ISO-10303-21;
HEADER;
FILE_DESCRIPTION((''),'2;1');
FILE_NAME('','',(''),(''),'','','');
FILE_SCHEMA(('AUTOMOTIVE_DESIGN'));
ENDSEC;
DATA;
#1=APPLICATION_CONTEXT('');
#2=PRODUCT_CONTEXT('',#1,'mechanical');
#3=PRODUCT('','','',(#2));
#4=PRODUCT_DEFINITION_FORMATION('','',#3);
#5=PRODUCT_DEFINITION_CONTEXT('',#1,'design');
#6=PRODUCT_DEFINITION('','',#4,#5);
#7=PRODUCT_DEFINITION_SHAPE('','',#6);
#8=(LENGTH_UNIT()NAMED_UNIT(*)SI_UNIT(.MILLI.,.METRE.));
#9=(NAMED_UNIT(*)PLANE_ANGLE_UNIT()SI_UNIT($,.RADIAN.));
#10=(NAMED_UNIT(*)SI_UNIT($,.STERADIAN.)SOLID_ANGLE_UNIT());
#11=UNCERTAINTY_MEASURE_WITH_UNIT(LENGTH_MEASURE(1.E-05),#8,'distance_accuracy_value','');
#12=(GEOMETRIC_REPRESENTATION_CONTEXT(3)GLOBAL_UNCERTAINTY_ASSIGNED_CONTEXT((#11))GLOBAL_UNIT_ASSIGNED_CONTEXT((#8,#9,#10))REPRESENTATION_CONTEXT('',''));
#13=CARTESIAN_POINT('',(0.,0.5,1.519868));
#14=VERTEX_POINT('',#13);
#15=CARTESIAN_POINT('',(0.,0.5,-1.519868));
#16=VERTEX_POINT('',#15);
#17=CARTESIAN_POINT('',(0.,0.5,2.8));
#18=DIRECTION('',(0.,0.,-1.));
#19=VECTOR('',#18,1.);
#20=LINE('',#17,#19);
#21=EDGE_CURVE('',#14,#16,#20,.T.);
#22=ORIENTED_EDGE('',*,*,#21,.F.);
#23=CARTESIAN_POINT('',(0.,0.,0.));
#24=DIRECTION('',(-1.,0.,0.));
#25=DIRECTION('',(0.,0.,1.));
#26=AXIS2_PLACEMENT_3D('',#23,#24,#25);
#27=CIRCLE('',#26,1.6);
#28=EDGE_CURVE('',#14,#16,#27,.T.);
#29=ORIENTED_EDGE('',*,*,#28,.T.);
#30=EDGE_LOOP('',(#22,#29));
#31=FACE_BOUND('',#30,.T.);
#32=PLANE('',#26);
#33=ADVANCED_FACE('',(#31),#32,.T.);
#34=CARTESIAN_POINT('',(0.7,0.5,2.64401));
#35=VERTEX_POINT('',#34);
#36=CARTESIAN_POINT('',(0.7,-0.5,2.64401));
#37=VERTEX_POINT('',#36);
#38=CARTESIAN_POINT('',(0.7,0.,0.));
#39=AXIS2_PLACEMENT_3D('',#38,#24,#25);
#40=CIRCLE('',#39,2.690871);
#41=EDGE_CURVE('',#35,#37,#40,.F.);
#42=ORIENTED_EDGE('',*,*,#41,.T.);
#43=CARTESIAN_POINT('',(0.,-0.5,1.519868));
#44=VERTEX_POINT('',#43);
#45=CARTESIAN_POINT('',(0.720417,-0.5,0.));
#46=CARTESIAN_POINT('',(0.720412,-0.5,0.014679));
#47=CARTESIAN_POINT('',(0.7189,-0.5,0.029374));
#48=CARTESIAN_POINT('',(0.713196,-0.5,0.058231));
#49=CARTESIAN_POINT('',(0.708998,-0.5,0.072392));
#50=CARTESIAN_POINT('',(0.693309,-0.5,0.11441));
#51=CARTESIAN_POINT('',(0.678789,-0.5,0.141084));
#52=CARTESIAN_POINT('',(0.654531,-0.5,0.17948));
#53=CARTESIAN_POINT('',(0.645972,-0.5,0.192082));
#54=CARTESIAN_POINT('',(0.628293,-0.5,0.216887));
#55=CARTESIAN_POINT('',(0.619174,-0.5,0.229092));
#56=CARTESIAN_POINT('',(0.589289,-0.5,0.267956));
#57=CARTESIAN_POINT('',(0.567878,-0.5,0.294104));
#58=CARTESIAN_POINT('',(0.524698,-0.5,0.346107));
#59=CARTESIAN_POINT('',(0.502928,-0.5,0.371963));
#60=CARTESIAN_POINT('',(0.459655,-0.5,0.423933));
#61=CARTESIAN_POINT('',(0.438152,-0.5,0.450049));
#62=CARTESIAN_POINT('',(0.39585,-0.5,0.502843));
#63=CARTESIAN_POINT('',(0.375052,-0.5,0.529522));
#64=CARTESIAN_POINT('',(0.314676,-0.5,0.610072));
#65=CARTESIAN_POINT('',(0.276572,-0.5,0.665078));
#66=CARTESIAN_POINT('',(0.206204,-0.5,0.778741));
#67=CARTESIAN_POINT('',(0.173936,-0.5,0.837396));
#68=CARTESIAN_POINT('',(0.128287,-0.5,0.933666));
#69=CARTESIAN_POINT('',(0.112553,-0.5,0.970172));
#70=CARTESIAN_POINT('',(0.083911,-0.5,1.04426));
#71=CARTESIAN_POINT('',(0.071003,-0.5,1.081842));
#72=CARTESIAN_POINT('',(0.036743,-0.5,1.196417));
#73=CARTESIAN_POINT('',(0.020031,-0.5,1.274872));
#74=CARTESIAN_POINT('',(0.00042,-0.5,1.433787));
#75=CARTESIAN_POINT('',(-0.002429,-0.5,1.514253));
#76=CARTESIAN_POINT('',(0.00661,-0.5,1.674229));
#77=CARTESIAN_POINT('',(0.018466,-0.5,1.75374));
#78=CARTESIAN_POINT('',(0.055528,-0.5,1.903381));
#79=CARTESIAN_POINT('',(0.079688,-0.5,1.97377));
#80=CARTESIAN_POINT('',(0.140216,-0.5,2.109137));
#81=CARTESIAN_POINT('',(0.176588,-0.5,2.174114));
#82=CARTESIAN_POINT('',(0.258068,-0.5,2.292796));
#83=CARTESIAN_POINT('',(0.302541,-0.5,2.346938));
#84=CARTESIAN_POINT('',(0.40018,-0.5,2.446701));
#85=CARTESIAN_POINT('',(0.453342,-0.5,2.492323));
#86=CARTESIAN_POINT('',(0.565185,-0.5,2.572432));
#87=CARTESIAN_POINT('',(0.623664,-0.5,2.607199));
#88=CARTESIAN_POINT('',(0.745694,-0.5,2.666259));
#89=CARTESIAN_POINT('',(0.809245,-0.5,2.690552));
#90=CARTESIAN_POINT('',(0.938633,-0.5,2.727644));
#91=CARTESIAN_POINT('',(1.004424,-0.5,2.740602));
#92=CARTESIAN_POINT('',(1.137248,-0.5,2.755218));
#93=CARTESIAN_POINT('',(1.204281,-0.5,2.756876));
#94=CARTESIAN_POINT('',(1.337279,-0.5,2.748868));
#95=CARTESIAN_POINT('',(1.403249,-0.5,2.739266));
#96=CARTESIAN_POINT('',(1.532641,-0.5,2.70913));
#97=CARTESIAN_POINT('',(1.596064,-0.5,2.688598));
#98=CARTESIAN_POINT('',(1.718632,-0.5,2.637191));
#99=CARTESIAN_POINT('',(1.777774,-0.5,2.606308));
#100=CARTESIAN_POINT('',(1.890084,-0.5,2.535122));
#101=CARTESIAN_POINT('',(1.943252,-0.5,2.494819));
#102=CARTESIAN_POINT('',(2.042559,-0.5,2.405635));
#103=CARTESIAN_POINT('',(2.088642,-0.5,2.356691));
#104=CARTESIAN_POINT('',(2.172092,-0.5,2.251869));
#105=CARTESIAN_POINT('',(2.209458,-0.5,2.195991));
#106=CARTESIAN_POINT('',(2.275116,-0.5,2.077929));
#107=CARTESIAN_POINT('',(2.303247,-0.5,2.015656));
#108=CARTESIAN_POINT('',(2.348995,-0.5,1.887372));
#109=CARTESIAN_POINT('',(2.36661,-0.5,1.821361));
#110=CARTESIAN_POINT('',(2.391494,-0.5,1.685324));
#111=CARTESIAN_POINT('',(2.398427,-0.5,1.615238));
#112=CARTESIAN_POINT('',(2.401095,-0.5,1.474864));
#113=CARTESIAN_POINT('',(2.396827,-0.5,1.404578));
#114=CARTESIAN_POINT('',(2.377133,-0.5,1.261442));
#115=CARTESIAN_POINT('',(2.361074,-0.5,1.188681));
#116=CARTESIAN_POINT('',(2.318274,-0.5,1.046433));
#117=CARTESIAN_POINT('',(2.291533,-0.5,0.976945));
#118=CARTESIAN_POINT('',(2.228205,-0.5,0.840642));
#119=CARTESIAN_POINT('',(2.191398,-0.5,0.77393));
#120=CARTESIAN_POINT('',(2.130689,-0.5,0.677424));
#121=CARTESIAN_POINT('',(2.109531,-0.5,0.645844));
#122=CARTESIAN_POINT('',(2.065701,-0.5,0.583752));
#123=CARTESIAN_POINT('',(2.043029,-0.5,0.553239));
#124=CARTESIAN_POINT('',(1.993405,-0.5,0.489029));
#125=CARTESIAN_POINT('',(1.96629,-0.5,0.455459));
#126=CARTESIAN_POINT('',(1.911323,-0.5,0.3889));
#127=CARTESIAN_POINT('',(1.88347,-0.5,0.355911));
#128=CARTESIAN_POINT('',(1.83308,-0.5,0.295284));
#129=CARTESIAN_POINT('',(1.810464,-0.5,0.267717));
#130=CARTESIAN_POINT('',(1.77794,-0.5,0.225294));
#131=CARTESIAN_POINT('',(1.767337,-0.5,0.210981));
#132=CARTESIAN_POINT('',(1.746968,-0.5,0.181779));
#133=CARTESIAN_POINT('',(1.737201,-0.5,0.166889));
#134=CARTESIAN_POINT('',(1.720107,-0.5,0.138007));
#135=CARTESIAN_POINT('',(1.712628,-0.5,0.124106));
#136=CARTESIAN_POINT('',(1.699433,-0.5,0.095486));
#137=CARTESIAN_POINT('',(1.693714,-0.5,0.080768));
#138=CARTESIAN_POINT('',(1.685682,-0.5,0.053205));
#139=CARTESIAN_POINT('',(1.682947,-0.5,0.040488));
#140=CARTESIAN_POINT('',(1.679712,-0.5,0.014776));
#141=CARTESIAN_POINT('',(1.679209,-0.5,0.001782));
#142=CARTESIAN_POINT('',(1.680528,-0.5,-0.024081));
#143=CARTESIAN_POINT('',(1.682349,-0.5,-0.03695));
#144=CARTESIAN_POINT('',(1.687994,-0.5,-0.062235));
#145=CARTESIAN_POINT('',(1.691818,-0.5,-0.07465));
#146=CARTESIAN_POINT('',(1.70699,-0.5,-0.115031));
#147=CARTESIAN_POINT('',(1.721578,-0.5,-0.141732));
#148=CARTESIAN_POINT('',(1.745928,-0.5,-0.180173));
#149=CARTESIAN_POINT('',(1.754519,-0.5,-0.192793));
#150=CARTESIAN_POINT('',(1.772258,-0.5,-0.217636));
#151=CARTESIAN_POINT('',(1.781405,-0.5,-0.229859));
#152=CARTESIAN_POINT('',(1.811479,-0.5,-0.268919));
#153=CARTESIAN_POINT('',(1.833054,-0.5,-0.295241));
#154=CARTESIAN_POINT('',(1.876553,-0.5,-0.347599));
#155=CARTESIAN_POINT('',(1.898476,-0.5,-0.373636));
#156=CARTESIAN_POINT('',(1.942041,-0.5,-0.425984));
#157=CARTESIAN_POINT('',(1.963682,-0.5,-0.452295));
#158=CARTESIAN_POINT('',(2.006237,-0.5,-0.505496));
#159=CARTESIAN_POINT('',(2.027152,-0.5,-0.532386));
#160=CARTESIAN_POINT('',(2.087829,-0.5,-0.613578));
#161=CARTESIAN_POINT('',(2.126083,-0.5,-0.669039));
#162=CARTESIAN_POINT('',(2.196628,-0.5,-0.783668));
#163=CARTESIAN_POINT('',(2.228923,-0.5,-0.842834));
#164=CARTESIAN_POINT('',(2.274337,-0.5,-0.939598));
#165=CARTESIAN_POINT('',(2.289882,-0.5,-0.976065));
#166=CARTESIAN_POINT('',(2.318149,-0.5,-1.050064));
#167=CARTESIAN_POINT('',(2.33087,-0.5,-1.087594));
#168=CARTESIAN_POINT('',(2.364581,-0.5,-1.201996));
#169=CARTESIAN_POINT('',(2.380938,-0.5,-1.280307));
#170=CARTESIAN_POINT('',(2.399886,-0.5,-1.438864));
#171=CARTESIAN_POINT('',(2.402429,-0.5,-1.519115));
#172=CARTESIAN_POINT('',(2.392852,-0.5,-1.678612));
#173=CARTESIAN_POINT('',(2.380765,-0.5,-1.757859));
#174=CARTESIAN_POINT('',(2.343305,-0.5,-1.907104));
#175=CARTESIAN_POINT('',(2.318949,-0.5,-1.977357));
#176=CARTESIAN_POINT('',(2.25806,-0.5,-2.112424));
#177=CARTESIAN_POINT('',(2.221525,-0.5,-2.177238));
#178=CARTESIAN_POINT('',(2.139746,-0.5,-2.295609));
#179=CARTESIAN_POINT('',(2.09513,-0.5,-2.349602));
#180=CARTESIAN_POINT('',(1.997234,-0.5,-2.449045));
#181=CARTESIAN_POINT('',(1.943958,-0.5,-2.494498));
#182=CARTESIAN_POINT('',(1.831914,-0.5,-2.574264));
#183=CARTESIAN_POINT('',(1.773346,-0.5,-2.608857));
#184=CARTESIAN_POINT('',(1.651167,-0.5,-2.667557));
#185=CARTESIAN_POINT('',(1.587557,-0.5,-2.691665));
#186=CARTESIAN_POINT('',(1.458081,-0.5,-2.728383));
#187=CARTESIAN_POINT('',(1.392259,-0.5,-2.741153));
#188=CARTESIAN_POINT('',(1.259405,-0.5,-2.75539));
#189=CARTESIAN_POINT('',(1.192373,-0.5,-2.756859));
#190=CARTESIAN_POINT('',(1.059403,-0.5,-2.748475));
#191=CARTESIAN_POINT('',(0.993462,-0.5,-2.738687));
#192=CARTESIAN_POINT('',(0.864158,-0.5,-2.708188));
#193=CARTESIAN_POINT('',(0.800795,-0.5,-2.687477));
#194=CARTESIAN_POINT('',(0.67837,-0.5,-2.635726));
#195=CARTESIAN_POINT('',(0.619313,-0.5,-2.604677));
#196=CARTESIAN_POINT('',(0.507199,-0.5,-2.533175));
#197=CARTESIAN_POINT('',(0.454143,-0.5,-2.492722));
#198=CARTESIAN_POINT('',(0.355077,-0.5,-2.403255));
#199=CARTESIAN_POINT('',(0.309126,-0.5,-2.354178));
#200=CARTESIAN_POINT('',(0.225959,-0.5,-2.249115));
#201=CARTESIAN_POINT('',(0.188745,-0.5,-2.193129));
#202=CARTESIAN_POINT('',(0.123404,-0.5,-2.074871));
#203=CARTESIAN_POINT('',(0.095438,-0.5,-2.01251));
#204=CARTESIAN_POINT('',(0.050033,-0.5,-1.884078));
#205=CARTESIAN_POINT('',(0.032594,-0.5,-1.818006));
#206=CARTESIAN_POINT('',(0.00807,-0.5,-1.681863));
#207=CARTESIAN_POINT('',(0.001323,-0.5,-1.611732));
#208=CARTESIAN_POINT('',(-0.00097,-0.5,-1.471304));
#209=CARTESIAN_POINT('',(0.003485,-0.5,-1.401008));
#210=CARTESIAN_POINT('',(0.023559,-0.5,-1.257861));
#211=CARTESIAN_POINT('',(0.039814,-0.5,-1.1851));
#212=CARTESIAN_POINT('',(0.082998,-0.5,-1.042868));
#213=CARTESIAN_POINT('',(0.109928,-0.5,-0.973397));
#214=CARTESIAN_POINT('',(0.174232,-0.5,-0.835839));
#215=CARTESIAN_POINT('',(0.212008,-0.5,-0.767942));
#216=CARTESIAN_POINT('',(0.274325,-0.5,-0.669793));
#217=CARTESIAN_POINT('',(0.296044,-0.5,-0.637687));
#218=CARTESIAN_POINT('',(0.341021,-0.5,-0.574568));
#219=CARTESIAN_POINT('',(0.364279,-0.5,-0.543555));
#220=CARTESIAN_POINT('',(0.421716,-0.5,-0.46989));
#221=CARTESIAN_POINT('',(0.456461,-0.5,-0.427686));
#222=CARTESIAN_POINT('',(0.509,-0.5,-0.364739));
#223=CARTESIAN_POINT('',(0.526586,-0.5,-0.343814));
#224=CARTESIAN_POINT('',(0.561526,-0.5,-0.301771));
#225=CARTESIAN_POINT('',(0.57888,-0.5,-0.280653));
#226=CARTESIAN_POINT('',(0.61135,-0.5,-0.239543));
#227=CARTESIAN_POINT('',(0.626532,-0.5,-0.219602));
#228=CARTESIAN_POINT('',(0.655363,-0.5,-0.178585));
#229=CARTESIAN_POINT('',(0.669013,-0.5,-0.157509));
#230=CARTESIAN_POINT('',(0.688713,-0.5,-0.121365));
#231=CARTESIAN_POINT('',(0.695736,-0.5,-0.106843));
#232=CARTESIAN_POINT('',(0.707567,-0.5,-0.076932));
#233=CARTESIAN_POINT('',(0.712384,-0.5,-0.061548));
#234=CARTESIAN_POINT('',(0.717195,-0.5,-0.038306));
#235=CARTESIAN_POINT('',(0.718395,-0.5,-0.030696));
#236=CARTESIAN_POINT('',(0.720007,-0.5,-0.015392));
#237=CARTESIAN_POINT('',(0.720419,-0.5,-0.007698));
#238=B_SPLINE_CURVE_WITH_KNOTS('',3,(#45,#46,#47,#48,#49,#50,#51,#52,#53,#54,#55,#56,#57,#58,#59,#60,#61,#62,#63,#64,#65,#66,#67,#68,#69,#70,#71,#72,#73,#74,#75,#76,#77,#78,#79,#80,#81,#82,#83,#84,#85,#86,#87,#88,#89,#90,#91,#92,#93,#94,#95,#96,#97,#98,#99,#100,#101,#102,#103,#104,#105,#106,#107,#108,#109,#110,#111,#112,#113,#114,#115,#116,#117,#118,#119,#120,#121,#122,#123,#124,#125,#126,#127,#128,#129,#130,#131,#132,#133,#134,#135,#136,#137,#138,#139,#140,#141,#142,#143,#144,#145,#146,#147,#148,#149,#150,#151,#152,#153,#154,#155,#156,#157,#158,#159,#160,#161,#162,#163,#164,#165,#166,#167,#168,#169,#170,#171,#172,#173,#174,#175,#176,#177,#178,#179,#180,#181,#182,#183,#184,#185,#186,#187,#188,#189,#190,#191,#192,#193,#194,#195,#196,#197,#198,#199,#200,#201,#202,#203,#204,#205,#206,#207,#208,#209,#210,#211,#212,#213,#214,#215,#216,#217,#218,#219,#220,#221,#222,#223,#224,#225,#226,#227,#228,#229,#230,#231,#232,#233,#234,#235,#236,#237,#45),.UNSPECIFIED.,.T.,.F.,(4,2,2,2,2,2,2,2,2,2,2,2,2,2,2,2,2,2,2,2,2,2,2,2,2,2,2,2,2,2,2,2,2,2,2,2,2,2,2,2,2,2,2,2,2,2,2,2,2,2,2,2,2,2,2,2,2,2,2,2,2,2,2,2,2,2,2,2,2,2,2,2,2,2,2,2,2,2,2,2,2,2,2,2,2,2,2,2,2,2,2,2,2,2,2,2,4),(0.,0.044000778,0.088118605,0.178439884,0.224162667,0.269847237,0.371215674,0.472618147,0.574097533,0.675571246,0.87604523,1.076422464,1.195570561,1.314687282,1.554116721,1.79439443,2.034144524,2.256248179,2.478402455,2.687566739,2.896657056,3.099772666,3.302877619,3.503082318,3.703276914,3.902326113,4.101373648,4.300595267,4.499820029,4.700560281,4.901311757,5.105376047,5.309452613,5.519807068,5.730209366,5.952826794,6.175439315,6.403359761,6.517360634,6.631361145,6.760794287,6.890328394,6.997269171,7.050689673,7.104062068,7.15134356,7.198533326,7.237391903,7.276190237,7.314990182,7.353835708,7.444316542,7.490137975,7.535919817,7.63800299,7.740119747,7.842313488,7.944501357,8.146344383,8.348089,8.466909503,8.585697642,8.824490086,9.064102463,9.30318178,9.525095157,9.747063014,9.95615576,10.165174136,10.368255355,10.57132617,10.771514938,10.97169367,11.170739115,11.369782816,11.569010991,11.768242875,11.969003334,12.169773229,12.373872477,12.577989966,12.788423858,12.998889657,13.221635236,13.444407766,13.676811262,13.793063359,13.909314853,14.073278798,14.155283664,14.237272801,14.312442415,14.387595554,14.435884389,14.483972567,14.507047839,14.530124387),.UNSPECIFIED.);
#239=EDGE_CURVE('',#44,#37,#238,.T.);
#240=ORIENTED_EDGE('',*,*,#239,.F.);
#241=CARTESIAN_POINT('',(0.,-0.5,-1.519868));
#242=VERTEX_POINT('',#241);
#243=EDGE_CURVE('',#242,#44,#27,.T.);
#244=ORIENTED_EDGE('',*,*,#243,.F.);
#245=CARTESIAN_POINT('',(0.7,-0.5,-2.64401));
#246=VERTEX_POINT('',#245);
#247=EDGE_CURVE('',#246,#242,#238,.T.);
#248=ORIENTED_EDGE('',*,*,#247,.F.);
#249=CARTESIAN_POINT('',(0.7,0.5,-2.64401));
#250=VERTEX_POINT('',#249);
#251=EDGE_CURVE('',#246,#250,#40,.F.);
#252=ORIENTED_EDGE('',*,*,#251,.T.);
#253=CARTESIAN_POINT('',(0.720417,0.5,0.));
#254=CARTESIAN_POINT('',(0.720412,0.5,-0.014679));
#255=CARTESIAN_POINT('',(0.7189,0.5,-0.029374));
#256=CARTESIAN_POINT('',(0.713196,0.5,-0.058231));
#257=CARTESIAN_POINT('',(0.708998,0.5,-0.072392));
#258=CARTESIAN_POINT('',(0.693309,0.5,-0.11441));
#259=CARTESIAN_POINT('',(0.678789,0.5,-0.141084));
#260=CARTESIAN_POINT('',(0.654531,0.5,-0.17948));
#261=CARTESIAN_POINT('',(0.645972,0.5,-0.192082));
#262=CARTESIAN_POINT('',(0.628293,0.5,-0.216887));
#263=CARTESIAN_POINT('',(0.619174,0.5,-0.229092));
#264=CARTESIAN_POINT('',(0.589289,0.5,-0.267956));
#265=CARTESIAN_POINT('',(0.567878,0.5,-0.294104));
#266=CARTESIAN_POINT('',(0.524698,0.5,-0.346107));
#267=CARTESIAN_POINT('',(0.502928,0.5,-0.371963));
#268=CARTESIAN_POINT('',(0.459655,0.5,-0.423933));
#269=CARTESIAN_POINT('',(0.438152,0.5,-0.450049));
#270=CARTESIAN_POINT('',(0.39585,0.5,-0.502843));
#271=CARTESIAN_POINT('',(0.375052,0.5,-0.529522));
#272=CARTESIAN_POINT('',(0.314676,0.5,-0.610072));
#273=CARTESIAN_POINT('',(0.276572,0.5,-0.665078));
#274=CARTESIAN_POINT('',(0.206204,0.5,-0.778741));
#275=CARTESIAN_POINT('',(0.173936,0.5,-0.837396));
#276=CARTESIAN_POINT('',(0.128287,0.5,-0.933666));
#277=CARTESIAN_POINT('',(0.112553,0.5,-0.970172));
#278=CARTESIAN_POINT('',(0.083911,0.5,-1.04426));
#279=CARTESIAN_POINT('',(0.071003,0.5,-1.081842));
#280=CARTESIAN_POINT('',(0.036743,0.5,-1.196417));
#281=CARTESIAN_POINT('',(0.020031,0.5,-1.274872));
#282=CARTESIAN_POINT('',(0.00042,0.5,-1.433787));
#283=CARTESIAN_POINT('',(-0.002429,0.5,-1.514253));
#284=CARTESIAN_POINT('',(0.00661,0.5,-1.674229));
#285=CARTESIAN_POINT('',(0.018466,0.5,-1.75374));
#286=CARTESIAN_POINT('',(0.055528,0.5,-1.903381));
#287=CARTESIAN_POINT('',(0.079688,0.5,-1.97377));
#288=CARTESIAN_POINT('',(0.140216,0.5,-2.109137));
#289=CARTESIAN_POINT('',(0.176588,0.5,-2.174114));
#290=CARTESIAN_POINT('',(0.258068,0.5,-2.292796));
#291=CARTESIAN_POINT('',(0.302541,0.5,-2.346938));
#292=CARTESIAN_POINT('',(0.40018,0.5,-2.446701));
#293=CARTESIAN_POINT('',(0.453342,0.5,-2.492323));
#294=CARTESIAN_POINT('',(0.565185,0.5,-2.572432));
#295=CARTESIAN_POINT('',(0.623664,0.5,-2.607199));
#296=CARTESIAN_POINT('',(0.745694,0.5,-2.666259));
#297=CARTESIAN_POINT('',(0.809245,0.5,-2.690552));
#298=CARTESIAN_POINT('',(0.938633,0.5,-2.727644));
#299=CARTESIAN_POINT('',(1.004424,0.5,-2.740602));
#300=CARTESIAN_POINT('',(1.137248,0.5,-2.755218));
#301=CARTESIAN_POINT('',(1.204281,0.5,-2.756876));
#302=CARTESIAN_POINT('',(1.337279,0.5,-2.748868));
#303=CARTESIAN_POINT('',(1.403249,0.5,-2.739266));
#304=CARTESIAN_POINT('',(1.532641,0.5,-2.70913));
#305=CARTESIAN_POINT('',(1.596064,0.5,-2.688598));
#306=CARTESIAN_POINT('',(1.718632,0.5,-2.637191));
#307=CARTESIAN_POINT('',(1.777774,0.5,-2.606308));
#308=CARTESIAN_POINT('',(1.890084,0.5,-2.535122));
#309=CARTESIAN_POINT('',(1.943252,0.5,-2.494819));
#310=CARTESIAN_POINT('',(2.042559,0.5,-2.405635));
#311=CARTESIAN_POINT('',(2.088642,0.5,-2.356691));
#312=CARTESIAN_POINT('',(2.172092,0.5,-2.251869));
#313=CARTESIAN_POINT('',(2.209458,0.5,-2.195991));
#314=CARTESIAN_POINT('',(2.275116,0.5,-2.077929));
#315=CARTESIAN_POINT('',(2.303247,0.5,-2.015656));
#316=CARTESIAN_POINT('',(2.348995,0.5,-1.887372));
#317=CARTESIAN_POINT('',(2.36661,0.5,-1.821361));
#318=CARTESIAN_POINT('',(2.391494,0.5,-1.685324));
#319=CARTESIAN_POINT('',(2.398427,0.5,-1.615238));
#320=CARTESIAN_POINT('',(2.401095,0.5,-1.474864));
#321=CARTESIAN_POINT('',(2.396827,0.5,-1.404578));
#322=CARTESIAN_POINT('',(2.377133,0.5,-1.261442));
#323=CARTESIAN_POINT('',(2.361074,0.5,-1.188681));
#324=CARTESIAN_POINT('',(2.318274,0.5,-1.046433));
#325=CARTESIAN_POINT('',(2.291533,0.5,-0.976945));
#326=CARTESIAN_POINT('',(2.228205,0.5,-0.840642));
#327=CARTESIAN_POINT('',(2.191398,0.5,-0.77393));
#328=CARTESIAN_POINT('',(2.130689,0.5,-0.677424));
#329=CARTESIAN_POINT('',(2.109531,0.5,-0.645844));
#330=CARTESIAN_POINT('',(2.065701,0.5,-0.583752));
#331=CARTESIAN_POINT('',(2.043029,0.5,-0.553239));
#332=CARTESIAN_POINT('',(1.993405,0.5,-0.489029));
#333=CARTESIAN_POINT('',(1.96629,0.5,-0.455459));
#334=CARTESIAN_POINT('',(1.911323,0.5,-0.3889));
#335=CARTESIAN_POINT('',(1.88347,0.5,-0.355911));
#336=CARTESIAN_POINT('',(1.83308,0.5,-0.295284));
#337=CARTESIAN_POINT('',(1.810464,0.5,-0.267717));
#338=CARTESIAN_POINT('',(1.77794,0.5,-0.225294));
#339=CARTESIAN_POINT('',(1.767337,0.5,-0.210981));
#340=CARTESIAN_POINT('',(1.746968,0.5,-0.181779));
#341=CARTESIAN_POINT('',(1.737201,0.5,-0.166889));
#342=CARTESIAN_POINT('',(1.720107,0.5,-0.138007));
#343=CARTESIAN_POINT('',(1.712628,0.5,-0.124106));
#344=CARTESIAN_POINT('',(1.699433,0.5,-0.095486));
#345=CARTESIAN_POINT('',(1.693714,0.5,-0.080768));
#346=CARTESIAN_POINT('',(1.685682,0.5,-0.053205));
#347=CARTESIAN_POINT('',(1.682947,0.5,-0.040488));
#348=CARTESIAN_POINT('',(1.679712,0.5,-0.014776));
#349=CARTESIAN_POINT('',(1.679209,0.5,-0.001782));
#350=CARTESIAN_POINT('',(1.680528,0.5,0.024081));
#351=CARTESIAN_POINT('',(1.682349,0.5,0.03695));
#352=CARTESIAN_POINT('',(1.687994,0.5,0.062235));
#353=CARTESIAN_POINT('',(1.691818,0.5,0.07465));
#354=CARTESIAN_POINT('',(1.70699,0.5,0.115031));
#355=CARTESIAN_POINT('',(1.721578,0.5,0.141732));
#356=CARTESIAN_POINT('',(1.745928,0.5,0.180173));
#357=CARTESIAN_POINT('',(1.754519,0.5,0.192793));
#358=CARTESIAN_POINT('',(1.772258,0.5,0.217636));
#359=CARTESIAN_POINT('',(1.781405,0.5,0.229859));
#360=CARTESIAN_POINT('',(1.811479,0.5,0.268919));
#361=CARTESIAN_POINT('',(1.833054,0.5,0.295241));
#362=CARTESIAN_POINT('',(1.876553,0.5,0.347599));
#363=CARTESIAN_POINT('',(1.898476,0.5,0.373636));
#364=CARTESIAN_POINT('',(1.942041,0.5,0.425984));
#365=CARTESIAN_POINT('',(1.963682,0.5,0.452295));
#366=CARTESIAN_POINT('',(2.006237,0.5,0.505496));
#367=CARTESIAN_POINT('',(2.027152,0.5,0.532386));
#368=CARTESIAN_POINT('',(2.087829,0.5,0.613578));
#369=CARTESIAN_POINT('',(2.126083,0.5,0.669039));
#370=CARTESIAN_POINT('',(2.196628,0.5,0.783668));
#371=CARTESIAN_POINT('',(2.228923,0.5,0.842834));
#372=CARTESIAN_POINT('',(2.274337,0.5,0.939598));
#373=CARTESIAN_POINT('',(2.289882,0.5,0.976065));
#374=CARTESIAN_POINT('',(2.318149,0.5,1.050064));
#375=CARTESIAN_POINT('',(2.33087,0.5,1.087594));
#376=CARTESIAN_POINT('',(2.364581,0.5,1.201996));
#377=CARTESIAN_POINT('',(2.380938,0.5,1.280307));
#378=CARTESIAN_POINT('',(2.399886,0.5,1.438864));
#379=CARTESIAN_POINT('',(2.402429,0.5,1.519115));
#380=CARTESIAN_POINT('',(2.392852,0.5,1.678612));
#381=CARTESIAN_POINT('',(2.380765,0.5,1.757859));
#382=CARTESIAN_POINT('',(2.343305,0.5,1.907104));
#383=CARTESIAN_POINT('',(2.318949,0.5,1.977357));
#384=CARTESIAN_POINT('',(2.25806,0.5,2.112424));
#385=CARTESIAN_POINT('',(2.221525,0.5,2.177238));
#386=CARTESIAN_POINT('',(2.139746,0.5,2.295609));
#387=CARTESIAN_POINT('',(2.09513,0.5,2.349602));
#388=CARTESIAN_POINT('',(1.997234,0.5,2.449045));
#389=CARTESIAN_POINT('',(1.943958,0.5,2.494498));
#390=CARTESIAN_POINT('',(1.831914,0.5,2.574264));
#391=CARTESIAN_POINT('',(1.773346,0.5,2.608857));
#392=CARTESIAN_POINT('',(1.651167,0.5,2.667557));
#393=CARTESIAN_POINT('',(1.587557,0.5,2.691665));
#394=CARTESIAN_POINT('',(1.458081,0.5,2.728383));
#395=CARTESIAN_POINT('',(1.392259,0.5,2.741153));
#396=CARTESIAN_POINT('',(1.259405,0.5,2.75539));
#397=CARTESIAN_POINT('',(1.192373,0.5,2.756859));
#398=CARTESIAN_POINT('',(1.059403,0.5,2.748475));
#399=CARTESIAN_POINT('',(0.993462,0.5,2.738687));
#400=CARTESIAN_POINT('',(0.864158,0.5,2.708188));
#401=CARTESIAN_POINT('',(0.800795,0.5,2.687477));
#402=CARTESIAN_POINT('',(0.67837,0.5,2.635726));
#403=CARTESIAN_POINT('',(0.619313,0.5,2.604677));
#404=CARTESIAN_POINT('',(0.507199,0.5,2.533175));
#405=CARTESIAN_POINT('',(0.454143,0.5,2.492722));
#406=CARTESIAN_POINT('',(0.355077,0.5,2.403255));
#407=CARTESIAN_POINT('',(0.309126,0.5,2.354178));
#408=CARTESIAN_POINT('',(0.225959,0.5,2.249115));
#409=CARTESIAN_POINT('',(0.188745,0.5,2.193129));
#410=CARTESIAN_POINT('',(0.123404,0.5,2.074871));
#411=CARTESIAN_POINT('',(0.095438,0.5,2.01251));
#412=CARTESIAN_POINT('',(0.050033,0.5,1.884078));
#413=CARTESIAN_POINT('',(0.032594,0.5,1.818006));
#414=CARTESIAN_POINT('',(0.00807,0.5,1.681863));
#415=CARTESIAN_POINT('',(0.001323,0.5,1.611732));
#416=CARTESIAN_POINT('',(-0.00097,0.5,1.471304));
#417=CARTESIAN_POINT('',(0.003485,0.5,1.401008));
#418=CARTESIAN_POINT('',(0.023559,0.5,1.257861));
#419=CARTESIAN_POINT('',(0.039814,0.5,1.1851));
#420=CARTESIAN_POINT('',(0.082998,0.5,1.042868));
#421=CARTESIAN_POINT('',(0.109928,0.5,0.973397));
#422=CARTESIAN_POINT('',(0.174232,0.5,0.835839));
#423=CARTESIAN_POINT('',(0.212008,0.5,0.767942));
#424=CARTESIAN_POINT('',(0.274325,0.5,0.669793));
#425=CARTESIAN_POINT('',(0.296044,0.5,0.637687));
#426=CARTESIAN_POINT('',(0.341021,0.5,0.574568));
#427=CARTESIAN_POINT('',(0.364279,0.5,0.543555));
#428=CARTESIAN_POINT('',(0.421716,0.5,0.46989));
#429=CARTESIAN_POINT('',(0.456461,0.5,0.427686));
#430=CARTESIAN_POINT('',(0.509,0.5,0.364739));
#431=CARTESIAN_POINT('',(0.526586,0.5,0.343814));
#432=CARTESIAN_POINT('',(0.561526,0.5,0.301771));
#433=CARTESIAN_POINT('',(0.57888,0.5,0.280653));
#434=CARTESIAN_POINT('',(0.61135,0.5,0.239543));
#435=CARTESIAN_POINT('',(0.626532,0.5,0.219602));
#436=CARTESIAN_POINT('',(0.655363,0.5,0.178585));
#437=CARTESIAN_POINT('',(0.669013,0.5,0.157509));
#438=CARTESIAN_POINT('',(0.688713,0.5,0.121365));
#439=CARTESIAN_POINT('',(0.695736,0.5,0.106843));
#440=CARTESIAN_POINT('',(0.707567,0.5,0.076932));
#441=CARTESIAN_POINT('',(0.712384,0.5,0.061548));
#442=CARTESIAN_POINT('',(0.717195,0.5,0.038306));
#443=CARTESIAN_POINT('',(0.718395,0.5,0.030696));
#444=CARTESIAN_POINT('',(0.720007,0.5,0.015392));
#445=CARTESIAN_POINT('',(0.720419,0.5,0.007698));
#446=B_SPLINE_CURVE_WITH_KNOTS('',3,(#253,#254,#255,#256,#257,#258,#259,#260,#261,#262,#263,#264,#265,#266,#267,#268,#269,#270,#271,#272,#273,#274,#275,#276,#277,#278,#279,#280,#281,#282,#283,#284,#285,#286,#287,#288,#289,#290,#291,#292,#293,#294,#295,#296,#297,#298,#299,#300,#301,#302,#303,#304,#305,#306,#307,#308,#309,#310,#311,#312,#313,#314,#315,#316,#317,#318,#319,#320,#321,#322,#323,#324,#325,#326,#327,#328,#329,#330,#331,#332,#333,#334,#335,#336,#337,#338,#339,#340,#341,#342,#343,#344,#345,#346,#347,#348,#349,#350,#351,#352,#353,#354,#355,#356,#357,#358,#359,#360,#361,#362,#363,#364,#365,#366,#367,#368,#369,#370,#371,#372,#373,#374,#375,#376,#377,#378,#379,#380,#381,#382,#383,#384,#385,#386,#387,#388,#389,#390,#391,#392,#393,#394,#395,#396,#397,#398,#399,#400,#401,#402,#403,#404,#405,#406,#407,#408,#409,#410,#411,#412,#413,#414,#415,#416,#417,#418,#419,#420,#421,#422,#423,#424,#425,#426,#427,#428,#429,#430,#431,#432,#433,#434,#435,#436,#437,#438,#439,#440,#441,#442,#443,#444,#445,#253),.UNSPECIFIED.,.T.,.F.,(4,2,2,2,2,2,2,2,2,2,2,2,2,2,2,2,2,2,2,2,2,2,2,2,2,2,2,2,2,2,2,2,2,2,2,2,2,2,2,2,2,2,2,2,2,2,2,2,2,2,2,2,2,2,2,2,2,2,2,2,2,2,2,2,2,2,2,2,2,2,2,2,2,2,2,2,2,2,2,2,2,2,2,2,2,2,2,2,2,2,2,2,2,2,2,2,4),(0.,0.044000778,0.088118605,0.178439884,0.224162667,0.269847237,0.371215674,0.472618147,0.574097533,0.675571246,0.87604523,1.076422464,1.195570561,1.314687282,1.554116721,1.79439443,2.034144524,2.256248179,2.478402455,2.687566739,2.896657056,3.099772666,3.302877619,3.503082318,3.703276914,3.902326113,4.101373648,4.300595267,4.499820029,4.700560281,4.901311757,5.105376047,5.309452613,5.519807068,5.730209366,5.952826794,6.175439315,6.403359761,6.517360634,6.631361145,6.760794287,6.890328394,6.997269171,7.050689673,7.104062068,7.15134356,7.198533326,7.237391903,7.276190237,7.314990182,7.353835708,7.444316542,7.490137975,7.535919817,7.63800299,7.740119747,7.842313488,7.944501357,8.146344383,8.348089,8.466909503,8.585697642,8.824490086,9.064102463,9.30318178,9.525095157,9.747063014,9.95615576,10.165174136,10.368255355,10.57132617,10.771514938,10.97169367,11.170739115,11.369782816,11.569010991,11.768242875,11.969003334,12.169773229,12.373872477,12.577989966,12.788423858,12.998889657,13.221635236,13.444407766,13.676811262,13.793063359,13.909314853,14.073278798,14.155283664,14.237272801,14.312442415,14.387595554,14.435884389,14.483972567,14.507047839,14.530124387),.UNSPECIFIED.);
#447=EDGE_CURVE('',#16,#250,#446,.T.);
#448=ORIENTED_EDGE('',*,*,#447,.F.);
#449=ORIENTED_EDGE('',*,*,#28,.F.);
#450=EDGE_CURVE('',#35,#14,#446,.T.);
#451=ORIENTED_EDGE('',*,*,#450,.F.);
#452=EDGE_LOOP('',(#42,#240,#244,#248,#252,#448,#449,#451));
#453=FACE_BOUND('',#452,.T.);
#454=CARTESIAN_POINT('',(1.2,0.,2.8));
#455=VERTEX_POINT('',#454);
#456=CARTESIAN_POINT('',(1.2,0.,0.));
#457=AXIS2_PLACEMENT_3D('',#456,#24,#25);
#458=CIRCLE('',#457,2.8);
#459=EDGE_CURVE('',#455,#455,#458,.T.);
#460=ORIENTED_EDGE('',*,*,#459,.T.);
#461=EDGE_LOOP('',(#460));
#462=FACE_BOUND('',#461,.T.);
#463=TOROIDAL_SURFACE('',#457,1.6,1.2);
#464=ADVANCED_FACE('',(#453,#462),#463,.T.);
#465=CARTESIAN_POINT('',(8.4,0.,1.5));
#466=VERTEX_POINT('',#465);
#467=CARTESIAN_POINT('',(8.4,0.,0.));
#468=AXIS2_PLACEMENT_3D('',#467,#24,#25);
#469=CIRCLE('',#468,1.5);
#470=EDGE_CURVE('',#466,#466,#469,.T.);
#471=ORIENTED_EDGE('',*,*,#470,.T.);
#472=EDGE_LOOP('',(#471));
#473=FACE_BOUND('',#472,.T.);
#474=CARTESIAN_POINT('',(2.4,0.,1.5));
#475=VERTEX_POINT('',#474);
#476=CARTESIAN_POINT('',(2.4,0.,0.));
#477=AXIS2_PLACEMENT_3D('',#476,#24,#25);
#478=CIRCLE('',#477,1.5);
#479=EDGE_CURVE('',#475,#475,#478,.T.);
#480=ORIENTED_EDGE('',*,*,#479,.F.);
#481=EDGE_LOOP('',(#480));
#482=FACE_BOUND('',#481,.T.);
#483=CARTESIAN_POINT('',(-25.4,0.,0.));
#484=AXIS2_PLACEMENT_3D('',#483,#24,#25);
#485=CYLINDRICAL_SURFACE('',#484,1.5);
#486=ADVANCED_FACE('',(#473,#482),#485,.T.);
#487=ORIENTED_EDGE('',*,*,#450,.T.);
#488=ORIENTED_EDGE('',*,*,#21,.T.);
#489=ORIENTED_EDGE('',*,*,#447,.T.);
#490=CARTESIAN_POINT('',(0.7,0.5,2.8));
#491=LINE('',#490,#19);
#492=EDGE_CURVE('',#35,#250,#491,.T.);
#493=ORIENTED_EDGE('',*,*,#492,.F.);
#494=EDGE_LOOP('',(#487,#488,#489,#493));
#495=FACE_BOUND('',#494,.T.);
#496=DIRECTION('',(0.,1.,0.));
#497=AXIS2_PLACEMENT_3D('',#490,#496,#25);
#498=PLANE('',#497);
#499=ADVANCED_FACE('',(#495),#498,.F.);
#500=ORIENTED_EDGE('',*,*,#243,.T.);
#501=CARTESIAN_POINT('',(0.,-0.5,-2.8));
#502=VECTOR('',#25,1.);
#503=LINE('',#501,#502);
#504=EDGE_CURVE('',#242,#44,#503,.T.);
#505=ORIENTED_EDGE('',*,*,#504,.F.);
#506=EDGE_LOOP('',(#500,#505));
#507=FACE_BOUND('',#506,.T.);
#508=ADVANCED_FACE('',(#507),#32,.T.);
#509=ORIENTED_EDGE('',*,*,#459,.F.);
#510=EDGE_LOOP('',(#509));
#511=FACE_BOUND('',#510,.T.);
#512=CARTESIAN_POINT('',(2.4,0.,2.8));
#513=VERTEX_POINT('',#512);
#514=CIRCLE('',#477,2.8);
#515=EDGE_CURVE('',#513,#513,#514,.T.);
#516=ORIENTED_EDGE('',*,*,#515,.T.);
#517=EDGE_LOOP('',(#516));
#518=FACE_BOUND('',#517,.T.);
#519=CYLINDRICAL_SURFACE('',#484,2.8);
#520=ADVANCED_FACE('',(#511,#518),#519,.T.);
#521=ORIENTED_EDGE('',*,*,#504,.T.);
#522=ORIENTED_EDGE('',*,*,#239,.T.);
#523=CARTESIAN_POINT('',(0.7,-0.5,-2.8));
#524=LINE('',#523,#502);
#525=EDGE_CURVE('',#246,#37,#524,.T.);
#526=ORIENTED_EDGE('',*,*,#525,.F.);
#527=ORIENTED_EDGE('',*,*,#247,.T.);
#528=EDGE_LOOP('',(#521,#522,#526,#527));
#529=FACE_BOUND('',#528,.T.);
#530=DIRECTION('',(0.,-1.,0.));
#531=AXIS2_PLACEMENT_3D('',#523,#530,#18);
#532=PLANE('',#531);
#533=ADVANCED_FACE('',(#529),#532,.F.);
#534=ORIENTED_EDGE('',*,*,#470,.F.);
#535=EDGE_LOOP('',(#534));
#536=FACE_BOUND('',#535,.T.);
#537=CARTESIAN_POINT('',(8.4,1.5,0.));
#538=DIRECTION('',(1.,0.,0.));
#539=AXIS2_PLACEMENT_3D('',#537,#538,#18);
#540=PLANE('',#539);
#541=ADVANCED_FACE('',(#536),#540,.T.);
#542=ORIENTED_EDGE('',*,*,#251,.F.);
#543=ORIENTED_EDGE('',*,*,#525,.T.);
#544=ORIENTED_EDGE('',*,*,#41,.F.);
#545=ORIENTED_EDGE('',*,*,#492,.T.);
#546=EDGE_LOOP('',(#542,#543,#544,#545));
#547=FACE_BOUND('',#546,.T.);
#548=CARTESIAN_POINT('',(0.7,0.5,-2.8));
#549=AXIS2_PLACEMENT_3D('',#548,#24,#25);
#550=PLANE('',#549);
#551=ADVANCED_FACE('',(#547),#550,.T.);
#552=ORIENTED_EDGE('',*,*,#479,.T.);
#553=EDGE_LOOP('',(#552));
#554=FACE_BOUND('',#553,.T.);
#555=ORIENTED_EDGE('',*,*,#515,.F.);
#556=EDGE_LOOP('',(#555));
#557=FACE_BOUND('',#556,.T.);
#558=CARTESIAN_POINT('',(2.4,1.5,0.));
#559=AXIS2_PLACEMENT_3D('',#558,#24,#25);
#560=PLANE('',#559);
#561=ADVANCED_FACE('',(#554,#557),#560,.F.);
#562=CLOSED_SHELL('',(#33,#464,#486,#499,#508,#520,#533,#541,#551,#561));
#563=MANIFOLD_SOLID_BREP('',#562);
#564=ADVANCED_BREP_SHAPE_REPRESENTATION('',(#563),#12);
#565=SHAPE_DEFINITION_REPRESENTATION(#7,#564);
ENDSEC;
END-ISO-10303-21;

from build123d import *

# Parameters (mm, degrees)
SKETCH2_W  = 5.6
SKETCH2_H  = 1
SLOT_DEPTH = 0.7


with BuildPart() as part:
    # BodySke → Base-Revolve (revolve)
    with BuildSketch(Plane.XY):
        with BuildLine():
            Line((2.4, 1.5), (2.4, 2.8))
            Line((2.4, 2.8), (1.2, 2.8))
            ThreePointArc((1.2, 2.8), (0.351471863, 2.448528137), (0, 1.6))
            Line((0, 1.6), (0, 0))
            Line((0, 0), (8.4, 0))
            Line((8.4, 0), (8.4, 1.5))
            Line((8.4, 1.5), (2.4, 1.5))
        make_face()
    revolve(axis=Axis((-25.4, 0, 0), (1, 0, 0)))

    # Sketch2 → Slot (cut)
    with BuildSketch(Plane(origin=(0, 0, 0), x_dir=(0, 0, -1), z_dir=(1, 0, 0))):
        Rectangle(SKETCH2_W, SKETCH2_H)
    extrude(amount=SLOT_DEPTH, mode=Mode.SUBTRACT)


solid = part.part
